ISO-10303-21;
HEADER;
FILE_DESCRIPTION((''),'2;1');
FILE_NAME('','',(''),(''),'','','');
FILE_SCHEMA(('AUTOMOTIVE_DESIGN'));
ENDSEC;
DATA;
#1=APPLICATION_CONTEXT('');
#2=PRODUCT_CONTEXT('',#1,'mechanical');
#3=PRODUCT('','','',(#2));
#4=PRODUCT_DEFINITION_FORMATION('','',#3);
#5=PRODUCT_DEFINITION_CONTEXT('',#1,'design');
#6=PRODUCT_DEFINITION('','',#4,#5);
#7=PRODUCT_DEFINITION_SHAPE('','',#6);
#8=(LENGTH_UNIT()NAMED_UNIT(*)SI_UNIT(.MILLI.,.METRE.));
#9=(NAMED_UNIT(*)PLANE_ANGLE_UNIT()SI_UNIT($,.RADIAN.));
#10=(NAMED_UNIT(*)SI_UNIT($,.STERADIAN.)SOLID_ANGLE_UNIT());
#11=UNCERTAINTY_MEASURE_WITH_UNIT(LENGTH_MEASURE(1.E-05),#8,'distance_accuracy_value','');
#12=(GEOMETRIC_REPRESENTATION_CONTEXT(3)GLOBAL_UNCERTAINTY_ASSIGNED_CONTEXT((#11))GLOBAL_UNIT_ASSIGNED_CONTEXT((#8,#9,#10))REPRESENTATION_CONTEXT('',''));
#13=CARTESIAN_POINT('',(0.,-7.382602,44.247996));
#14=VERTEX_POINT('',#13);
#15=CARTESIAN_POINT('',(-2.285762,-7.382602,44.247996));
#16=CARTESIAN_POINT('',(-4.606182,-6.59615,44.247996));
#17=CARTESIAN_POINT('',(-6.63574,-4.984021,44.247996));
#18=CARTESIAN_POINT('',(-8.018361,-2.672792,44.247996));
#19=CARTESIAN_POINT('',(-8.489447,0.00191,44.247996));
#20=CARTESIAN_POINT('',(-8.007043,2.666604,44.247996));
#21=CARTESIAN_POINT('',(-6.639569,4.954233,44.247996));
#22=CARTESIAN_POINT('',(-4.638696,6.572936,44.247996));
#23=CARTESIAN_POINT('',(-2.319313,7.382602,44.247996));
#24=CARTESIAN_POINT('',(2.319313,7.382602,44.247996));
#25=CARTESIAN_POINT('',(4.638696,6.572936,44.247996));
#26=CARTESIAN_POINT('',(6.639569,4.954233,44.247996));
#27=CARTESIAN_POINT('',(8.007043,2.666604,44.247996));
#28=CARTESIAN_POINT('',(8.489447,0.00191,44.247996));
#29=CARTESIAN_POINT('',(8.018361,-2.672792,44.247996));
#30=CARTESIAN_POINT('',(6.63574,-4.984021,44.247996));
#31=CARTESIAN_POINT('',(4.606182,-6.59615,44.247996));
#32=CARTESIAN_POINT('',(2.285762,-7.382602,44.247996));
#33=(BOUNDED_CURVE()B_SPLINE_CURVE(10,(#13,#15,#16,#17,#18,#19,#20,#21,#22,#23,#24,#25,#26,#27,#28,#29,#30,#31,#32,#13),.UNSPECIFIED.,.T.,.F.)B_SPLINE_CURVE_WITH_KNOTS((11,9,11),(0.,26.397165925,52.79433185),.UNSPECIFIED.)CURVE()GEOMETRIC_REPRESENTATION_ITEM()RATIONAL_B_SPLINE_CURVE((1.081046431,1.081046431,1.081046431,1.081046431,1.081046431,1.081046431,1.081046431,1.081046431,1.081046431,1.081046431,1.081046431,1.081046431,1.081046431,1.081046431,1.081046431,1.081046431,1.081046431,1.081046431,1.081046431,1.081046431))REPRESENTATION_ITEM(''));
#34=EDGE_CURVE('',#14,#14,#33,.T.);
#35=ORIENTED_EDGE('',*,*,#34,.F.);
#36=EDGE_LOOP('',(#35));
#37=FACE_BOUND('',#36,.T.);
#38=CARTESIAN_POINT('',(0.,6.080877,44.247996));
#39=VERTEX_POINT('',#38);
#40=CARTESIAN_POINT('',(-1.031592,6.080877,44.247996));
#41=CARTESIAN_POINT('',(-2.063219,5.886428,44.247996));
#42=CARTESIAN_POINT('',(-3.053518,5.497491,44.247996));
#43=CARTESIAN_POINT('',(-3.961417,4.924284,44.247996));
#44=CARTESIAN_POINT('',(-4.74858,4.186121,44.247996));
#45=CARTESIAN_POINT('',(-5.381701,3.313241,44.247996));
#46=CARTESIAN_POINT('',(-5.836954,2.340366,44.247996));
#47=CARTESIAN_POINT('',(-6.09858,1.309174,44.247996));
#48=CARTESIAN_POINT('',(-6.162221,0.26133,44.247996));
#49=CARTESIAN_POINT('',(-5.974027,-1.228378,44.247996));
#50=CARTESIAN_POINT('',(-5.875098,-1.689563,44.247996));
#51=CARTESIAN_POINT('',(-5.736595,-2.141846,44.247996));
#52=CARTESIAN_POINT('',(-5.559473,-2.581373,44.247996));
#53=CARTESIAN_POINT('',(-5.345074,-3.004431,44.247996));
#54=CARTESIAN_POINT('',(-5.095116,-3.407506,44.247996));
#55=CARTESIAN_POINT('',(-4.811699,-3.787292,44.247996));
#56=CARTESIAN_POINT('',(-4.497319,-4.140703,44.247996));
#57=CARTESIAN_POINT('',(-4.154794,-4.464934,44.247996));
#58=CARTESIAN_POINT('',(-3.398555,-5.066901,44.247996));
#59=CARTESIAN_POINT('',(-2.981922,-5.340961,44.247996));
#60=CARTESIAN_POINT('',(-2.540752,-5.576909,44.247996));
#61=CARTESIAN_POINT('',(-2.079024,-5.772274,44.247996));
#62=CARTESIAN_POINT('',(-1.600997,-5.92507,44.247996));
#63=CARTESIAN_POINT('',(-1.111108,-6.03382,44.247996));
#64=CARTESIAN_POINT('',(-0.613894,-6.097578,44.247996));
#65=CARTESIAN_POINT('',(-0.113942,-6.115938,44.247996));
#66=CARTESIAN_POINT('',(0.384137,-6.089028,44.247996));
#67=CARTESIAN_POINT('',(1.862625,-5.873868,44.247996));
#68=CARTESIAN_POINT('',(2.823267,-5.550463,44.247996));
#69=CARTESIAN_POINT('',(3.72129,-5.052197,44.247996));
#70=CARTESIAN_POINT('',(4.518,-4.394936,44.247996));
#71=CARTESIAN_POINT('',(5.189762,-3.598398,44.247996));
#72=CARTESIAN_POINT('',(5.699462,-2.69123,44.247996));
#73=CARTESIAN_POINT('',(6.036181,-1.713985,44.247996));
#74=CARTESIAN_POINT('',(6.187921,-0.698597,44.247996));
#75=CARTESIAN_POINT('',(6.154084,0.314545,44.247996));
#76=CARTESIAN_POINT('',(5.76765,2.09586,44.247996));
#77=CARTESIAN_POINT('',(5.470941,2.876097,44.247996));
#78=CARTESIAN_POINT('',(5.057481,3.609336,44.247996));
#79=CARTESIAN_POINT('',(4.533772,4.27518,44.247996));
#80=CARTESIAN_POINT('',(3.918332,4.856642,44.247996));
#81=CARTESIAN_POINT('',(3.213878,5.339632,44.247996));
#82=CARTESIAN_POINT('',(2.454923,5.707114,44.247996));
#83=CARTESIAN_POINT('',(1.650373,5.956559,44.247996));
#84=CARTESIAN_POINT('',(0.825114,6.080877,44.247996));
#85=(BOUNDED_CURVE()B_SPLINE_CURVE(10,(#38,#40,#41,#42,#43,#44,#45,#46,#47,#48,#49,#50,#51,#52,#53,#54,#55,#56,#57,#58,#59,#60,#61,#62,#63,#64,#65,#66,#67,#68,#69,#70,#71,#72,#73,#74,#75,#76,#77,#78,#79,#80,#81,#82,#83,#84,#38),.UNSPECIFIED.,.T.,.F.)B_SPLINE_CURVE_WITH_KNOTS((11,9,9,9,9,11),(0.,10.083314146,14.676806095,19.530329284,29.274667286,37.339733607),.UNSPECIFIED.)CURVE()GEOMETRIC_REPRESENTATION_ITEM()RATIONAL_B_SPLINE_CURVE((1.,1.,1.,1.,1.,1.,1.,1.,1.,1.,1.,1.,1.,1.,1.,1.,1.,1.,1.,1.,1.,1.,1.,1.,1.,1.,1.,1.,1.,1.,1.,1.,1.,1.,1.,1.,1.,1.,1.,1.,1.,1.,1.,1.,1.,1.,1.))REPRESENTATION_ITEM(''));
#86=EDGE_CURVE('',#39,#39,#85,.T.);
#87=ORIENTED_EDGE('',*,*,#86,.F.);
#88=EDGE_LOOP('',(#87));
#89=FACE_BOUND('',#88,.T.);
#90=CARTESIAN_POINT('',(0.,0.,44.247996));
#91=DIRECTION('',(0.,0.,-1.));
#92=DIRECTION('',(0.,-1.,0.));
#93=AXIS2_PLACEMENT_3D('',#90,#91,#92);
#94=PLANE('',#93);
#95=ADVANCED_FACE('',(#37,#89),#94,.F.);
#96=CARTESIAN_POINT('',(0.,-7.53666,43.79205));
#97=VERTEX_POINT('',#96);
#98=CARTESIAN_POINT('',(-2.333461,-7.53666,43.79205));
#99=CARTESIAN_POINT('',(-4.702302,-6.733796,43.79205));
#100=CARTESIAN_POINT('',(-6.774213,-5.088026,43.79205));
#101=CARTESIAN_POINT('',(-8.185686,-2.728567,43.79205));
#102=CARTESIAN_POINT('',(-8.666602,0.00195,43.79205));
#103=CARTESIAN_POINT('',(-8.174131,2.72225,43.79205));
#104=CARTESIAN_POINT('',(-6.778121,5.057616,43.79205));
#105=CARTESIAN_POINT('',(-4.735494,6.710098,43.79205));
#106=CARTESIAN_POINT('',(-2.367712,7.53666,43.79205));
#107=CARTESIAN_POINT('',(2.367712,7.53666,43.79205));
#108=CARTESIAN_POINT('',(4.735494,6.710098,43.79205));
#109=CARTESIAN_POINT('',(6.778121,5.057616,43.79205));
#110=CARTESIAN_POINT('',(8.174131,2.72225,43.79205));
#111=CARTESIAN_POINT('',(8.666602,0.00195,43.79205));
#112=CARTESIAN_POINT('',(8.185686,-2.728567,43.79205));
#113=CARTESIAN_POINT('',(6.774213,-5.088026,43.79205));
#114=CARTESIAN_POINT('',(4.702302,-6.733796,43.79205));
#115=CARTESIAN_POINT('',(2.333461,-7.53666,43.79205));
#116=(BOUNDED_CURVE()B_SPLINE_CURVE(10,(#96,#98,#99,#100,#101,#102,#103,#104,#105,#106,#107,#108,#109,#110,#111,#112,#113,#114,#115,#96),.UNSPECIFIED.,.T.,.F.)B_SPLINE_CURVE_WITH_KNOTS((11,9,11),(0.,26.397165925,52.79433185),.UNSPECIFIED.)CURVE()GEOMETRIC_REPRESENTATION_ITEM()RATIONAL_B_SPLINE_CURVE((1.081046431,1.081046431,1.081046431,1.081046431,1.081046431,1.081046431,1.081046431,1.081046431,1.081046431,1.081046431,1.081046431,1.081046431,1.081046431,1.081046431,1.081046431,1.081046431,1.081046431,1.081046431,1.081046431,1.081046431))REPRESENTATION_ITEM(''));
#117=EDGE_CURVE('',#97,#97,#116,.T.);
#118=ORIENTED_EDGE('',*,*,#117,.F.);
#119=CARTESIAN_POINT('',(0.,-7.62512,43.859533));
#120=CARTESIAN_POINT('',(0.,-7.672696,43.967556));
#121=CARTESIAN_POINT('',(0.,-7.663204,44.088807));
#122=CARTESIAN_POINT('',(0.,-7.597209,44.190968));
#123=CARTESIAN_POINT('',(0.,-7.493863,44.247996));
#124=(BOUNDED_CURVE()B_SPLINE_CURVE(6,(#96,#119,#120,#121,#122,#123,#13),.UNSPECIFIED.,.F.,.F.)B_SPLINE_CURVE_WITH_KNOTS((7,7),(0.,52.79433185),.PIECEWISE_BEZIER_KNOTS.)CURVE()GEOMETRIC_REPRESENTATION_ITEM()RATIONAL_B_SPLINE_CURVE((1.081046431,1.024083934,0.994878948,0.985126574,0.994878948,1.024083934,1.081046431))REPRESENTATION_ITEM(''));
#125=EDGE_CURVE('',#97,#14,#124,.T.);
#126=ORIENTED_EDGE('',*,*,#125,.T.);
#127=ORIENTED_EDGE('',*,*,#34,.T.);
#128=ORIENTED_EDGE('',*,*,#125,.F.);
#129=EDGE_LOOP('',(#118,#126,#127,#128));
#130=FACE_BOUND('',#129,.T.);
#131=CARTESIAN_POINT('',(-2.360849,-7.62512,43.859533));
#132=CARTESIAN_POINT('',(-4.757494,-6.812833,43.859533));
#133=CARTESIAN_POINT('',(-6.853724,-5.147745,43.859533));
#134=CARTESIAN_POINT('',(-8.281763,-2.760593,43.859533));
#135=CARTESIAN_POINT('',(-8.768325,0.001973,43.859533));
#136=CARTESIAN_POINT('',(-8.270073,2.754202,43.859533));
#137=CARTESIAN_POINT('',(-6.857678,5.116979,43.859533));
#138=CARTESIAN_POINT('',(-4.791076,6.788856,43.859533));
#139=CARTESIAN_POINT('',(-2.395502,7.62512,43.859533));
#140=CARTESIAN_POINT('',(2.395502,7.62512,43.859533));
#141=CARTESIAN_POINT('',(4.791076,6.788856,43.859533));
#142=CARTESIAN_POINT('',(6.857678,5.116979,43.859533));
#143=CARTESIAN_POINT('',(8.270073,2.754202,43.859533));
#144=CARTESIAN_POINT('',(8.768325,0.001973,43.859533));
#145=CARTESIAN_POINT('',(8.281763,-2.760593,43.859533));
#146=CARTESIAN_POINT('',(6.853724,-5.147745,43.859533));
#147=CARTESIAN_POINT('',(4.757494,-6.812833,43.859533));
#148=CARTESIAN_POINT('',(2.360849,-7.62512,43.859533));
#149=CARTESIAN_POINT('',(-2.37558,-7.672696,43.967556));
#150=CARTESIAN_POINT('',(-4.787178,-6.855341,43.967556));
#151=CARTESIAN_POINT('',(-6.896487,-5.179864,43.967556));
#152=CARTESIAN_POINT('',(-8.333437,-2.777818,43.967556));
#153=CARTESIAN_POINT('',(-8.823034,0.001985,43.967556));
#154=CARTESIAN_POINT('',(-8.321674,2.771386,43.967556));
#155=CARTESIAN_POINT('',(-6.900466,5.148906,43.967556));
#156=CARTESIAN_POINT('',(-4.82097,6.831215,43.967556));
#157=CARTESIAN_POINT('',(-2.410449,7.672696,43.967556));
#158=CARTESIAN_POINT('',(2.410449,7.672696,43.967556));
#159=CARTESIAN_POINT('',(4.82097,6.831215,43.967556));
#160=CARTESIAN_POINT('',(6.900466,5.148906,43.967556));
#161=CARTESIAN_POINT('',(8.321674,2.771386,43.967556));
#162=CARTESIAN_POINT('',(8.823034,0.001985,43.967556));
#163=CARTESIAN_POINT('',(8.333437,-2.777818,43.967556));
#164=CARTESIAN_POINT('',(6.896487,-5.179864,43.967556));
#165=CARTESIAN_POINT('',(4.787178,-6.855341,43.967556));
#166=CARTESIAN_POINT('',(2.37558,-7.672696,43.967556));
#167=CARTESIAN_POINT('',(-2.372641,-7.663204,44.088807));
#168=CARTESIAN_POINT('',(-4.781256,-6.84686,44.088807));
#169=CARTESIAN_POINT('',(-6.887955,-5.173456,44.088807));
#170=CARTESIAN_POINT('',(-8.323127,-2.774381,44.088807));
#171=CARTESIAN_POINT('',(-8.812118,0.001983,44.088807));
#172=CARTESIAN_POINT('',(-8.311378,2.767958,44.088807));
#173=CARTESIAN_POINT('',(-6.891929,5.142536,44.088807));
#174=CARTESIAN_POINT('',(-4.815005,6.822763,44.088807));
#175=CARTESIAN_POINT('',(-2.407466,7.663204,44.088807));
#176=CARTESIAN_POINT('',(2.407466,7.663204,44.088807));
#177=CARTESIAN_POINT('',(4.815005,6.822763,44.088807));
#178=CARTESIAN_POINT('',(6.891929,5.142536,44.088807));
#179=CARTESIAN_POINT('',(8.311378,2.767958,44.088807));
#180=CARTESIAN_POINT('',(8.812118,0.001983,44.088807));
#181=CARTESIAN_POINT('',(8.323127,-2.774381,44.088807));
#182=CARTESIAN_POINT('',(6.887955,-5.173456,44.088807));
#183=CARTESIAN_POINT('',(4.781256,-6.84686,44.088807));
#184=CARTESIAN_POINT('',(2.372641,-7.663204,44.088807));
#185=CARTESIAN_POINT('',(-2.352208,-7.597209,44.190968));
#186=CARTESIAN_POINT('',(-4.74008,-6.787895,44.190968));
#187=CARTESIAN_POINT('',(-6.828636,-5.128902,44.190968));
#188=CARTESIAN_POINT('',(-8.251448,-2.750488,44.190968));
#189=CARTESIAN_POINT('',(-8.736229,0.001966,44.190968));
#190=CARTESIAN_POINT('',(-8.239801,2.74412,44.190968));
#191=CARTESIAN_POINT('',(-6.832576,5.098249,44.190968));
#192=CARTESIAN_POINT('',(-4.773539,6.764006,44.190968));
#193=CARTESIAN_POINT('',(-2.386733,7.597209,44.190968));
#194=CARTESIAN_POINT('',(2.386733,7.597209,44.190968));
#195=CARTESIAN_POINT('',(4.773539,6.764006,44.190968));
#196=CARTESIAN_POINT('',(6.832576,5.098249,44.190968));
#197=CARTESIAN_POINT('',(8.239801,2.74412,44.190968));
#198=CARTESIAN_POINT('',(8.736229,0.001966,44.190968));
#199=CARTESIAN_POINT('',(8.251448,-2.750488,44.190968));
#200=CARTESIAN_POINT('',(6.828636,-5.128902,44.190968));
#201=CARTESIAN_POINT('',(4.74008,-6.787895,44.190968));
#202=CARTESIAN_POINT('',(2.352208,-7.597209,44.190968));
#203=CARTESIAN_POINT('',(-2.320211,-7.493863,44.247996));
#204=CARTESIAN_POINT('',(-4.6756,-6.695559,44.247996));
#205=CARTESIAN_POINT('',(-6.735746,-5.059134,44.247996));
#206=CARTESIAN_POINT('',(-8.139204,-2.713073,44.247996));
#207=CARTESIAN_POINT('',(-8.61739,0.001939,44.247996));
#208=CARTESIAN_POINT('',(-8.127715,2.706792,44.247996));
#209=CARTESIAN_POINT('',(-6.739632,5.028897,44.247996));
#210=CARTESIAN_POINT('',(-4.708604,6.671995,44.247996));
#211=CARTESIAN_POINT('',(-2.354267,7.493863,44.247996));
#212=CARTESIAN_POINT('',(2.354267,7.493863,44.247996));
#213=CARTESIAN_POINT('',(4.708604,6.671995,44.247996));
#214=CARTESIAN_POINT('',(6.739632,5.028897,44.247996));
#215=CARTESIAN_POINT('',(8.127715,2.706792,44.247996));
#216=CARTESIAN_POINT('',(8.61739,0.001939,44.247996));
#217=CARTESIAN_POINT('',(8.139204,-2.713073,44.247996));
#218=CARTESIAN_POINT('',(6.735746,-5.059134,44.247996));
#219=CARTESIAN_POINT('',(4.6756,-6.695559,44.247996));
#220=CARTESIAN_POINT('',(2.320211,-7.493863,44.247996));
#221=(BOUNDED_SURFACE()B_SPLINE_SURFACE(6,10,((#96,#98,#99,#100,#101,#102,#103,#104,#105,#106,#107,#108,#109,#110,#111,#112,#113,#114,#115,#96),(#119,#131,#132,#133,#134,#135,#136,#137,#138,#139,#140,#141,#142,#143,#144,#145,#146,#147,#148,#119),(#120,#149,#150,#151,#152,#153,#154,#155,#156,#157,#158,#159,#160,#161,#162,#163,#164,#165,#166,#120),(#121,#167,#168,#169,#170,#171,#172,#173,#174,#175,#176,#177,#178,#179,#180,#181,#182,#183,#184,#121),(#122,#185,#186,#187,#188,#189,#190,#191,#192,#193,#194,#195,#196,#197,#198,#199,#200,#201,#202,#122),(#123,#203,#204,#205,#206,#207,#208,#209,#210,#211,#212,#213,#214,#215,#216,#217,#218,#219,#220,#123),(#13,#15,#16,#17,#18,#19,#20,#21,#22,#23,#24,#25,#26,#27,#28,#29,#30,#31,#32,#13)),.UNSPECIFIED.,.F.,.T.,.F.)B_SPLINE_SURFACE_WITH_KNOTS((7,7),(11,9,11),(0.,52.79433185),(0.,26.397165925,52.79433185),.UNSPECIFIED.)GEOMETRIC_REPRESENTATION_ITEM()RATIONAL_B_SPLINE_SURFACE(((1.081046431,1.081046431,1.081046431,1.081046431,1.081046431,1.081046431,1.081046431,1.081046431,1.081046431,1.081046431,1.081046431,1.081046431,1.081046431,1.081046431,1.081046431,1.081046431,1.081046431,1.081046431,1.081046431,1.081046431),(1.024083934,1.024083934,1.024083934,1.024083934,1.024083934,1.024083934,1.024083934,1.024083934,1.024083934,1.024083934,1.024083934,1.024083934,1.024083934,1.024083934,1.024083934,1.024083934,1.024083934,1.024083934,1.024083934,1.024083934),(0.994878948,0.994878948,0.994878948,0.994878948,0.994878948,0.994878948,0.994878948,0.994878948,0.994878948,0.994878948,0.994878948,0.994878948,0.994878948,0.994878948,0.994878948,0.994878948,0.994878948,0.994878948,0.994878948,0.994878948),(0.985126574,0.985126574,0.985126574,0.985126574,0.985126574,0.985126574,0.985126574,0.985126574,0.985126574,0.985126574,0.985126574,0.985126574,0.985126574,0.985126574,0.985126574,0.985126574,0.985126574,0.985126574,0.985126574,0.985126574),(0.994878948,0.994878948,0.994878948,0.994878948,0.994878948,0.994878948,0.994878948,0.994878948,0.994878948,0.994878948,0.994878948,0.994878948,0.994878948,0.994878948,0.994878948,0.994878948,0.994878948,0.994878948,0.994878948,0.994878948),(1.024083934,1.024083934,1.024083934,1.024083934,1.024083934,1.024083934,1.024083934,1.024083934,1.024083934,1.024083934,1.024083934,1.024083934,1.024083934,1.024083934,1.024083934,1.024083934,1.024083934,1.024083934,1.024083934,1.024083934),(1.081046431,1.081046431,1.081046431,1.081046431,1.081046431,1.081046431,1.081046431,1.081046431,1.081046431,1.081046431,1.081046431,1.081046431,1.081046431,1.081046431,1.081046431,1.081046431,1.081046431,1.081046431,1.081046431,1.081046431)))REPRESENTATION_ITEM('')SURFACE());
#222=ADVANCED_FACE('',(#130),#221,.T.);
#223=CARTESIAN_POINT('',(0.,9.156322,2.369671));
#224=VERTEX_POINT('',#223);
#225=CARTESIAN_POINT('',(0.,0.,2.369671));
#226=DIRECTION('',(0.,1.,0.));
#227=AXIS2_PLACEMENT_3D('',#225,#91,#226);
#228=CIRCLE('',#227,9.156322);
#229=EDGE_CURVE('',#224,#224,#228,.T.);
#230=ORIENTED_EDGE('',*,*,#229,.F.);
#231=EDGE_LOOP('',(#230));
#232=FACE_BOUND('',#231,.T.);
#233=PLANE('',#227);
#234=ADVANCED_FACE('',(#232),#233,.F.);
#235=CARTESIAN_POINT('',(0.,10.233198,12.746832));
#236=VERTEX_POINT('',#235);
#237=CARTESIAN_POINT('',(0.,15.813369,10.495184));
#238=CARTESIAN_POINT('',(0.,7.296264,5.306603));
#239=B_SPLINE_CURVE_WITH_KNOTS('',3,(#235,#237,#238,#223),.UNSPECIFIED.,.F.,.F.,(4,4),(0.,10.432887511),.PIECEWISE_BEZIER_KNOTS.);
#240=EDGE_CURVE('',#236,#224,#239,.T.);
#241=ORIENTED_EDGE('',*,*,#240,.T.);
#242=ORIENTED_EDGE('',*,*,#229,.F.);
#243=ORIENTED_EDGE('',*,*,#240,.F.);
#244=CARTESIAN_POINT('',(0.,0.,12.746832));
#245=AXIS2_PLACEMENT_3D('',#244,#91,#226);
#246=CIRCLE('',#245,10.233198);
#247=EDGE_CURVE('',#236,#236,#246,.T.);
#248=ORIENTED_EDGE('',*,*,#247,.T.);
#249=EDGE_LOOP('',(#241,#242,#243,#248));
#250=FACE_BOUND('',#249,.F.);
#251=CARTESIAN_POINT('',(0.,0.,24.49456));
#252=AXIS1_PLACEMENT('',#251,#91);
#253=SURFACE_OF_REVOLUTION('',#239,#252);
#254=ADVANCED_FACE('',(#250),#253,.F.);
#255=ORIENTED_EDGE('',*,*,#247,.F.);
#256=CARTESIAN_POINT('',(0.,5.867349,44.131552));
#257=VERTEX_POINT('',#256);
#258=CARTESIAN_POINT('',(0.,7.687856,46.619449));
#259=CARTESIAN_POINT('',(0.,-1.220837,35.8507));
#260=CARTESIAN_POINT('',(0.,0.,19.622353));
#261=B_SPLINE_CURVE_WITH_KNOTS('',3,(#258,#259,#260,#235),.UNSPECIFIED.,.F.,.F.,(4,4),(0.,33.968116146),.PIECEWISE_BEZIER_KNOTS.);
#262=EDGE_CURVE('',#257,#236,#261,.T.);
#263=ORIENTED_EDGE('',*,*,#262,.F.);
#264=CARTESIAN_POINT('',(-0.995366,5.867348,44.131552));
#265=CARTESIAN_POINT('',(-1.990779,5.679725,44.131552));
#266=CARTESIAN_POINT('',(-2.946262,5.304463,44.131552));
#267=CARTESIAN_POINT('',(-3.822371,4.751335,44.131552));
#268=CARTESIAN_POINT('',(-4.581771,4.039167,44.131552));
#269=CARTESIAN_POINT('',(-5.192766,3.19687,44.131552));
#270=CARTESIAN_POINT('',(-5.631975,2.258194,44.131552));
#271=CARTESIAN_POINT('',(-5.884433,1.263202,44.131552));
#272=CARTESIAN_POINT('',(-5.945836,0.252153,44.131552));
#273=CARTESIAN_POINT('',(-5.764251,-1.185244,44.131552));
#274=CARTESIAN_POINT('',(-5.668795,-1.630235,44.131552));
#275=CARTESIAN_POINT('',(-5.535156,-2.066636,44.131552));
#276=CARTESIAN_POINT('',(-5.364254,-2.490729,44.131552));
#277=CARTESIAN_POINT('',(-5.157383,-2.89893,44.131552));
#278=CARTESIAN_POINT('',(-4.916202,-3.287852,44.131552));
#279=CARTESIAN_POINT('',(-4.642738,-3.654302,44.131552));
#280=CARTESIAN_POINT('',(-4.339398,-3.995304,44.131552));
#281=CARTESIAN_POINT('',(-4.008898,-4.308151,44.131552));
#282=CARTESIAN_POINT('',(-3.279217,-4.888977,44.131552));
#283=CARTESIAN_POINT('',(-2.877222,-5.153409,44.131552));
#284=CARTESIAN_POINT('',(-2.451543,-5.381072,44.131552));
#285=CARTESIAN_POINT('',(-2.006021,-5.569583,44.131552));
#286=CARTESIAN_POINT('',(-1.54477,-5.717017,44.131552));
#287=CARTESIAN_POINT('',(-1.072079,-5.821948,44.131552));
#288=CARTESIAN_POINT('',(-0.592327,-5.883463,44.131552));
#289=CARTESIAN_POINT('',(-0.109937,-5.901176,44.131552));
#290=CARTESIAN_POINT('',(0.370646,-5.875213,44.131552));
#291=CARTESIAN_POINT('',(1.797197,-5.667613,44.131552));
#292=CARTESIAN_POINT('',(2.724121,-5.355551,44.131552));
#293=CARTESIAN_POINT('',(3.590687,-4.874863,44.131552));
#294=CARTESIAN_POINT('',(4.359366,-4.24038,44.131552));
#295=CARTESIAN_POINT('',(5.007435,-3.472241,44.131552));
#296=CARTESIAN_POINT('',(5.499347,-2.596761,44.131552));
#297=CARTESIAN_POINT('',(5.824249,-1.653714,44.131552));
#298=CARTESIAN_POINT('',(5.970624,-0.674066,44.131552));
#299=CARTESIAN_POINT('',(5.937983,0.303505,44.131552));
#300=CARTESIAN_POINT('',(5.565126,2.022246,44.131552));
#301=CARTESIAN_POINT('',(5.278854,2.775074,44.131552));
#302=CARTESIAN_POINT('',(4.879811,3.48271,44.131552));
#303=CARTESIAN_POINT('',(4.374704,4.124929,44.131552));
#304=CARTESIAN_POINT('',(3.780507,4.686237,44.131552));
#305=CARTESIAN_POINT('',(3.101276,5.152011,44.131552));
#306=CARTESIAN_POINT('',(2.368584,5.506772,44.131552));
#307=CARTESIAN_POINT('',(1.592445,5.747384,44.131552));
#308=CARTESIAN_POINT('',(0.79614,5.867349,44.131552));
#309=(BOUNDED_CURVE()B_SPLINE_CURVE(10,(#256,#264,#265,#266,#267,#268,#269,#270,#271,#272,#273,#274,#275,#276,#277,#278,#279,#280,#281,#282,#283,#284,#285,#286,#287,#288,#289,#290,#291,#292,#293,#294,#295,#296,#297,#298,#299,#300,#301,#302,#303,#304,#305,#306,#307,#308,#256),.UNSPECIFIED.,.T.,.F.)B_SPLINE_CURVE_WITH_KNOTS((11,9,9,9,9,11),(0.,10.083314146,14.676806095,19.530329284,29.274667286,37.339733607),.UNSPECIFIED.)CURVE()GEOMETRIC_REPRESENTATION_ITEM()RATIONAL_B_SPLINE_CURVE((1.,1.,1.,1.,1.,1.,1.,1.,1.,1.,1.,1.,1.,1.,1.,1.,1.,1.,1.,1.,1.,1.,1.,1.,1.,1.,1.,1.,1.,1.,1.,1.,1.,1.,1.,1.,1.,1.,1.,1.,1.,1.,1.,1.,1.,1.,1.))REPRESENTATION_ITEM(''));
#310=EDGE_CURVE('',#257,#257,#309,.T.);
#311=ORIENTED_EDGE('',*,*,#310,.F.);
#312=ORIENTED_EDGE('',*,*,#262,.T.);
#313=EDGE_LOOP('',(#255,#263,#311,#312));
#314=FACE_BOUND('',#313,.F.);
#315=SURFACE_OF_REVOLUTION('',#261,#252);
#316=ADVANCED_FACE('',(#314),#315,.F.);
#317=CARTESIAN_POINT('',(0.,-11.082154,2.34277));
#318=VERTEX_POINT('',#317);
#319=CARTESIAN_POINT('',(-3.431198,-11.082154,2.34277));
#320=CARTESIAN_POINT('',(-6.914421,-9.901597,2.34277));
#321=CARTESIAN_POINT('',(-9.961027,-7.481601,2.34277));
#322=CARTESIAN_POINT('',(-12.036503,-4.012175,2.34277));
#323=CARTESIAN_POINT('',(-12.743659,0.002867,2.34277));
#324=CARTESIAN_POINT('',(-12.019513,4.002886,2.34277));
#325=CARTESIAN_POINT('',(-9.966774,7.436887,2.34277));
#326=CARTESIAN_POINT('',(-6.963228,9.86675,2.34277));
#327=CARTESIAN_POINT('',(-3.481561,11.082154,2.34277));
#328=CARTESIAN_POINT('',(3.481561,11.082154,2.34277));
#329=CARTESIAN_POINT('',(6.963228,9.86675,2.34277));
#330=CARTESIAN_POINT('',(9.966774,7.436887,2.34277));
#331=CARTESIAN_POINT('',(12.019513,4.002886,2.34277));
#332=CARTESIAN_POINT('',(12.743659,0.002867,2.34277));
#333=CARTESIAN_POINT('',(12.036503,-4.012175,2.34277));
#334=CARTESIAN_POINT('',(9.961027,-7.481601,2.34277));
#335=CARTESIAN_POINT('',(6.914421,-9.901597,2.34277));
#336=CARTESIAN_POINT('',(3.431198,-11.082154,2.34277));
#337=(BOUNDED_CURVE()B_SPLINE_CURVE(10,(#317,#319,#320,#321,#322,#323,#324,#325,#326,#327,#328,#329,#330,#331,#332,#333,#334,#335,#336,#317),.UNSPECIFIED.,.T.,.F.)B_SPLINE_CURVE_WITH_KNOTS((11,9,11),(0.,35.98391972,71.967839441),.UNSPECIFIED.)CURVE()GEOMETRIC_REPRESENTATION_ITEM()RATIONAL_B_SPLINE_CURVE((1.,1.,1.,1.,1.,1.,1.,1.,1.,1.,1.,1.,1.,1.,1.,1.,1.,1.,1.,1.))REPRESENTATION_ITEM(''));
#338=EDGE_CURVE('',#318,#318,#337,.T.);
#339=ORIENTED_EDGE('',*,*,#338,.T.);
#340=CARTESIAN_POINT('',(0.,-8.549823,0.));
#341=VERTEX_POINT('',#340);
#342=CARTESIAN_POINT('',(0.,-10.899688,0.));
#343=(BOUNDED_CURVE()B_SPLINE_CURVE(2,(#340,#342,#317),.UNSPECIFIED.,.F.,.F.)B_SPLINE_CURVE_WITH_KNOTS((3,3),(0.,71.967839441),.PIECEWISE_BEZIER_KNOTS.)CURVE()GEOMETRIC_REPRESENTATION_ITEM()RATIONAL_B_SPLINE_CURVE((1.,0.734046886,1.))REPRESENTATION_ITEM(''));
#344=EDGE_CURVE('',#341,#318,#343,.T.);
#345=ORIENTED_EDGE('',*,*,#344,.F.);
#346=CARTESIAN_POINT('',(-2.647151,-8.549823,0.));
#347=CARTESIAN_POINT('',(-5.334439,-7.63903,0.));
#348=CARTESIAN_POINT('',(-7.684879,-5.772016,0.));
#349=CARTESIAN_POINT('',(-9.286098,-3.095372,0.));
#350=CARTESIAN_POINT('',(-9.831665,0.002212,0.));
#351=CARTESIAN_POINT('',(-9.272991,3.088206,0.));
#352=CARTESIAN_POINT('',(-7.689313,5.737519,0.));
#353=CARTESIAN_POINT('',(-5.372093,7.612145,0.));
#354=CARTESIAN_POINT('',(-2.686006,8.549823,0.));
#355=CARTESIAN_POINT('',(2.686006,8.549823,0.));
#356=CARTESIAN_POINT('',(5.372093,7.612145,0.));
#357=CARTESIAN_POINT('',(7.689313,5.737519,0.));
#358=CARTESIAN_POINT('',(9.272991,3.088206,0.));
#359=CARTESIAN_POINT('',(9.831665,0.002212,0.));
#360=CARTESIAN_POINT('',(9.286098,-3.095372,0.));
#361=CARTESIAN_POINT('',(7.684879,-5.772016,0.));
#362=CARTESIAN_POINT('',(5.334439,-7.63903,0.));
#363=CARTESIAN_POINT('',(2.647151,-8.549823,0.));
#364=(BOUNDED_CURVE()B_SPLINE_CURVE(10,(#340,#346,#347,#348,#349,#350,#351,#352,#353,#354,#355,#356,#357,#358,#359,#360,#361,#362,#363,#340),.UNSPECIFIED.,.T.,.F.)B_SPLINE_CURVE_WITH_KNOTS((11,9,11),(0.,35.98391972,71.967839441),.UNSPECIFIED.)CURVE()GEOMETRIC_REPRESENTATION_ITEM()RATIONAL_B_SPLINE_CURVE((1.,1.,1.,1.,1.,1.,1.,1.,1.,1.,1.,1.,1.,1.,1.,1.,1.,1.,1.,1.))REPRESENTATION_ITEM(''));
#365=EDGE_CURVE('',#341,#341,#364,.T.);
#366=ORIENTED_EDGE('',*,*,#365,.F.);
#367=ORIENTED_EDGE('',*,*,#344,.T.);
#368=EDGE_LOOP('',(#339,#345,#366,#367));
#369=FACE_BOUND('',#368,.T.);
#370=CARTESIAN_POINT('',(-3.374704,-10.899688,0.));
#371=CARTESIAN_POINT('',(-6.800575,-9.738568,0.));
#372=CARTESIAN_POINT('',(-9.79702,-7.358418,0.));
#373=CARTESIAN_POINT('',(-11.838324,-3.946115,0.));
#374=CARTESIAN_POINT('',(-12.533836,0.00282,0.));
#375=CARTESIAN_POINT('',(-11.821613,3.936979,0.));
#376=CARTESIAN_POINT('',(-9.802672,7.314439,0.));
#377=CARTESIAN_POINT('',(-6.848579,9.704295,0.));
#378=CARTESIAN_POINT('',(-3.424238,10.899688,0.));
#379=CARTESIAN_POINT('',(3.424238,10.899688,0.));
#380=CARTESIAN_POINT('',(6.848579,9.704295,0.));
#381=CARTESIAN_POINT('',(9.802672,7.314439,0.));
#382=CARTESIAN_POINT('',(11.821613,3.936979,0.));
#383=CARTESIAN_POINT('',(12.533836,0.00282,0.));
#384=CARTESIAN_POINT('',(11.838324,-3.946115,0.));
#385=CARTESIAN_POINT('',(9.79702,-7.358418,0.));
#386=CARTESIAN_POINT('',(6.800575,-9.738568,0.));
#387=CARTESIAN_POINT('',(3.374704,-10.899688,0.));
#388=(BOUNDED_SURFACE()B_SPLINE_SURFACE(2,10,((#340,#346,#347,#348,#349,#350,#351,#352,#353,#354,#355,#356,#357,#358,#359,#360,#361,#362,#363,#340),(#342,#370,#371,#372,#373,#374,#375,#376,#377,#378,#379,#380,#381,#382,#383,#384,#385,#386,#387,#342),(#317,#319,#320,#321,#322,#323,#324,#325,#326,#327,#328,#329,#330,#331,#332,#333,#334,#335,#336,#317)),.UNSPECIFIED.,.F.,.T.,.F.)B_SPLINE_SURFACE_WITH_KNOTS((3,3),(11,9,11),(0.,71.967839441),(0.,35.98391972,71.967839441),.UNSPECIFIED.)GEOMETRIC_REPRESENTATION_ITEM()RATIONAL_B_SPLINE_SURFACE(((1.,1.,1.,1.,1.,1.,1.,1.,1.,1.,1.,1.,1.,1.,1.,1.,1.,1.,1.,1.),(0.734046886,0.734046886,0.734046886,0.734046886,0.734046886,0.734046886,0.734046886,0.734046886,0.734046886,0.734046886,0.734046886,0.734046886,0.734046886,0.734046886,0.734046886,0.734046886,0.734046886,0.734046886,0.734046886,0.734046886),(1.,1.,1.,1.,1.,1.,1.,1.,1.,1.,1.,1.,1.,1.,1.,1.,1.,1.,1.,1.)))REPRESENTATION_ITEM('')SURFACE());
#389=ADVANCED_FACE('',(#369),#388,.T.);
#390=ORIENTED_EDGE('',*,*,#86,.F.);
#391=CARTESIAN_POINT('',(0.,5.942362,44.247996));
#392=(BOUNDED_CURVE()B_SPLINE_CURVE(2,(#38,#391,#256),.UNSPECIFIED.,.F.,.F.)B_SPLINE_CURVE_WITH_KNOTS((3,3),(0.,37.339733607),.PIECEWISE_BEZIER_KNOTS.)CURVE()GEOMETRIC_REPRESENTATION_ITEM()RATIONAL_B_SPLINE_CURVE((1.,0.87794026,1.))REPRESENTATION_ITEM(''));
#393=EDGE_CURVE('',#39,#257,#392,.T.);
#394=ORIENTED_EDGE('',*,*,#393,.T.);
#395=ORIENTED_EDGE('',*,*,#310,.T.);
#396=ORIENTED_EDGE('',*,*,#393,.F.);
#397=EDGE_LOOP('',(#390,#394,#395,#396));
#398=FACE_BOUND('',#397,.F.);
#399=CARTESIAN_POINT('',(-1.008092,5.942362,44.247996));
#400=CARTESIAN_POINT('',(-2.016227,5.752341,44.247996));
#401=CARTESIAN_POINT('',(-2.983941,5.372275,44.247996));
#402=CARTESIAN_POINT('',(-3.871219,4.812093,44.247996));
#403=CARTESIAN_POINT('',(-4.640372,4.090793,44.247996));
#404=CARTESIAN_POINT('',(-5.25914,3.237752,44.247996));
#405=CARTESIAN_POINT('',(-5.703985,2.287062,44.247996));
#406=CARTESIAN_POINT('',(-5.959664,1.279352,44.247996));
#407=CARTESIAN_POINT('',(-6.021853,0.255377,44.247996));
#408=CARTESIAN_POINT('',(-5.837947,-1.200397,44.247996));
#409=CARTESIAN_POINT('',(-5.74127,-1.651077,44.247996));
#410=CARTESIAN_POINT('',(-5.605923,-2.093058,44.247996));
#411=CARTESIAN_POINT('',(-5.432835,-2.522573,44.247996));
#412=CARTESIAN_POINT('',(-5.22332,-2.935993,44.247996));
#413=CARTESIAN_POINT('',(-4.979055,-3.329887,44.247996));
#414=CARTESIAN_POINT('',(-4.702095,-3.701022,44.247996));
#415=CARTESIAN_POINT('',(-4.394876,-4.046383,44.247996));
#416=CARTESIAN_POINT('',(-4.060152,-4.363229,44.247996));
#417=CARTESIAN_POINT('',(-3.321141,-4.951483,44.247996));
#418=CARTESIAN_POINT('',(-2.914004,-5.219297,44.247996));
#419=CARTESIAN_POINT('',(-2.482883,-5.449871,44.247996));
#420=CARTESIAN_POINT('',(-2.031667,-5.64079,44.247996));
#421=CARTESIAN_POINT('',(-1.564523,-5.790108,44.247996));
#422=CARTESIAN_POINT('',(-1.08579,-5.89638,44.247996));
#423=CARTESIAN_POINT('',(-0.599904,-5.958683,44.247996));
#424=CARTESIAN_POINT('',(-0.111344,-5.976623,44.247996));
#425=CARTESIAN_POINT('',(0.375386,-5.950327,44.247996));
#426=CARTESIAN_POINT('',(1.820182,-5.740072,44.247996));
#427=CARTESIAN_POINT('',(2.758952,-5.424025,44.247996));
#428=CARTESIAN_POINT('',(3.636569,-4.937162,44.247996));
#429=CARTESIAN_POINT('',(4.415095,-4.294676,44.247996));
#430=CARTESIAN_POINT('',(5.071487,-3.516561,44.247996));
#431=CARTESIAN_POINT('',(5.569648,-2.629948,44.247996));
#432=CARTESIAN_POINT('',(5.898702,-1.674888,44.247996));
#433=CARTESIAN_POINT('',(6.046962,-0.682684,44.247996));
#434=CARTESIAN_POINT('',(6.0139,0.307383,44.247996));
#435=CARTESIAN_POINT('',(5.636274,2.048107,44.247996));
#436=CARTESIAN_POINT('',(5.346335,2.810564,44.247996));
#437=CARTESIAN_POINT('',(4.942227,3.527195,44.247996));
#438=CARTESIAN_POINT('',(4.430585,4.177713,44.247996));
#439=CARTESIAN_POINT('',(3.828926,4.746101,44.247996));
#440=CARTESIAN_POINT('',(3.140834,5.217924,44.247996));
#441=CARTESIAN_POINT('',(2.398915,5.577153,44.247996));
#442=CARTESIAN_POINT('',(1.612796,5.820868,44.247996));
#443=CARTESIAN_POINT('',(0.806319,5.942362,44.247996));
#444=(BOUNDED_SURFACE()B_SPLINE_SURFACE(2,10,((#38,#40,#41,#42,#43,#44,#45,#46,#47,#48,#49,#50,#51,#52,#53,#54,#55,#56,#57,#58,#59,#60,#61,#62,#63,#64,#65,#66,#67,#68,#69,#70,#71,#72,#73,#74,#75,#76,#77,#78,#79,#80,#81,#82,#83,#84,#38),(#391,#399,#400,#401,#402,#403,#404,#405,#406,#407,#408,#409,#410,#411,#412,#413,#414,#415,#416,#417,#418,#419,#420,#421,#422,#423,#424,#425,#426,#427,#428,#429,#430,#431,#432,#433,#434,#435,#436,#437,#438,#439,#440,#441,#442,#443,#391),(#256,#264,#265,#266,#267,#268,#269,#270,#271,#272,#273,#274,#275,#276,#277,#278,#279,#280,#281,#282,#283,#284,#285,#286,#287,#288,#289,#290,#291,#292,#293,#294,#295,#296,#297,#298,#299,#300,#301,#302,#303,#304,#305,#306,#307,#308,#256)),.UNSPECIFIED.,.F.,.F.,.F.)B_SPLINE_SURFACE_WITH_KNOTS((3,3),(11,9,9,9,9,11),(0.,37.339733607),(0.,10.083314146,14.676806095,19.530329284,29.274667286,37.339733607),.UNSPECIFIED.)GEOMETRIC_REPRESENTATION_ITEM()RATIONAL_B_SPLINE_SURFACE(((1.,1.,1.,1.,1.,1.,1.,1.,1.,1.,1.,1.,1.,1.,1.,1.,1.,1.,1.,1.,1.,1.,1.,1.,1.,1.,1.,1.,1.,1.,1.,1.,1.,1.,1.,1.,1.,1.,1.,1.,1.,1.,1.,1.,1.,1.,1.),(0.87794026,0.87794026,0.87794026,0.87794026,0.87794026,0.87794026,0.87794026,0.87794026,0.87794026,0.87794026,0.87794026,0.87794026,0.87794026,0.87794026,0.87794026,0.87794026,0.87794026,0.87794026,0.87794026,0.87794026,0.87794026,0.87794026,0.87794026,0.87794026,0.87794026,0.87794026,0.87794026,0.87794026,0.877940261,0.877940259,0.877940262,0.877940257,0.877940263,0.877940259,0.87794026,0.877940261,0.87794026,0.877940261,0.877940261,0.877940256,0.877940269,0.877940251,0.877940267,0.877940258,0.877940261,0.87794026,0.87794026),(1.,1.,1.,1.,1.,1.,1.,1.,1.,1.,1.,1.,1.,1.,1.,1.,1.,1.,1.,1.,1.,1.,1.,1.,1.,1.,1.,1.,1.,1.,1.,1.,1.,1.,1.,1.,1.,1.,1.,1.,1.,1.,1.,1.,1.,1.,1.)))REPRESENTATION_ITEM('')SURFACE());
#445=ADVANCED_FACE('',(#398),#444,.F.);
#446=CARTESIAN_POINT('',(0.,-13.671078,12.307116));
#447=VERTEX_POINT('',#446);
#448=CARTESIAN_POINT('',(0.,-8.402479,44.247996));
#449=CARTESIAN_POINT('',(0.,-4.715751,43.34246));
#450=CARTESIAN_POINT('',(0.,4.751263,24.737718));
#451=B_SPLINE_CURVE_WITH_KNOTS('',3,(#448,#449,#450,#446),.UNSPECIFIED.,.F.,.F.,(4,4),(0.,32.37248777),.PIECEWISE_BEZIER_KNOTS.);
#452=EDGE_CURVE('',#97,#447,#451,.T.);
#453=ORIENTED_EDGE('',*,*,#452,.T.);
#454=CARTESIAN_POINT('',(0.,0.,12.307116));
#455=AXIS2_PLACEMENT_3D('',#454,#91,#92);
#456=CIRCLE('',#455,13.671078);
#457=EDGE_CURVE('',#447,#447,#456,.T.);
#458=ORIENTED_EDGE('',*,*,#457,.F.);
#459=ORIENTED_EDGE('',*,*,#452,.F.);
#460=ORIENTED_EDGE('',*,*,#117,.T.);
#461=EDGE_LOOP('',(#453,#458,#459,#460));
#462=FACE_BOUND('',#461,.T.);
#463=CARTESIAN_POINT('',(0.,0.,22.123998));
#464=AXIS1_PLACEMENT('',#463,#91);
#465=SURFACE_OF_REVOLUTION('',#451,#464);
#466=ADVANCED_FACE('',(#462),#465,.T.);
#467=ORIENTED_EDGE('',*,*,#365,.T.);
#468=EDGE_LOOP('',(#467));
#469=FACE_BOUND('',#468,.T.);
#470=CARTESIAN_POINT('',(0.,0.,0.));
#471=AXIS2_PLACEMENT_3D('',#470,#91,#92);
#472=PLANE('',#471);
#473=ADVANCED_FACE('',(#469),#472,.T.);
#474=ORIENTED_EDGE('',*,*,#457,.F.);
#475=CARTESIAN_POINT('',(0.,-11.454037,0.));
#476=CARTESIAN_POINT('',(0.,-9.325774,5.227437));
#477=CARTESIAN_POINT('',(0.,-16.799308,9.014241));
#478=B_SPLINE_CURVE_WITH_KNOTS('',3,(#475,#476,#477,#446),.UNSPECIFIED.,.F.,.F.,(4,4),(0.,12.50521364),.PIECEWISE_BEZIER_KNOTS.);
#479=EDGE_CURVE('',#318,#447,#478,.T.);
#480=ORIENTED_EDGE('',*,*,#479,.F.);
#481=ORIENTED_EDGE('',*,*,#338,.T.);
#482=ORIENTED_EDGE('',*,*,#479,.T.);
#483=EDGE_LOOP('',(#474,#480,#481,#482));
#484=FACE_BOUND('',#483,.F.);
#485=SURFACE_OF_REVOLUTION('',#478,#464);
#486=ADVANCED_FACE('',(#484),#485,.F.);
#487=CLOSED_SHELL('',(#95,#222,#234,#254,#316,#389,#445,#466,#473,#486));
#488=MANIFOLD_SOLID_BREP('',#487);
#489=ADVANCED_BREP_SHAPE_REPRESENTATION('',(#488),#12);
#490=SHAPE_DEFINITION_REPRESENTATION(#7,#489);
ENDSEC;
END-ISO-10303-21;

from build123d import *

# Parameters (mm, degrees)
F2_R = 2.54
F5_R = 0.254


with BuildPart() as f1:
    # F0 (on Right) → F1 (revolve)
    with BuildSketch(Plane.YZ):
        with BuildLine():
            Line((-11.4540373906, 0), (0, 0))
            Line((0, 0), (0, 44.247996062))
            Line((0, 44.247996062), (-8.4024788812, 44.247996062))
            add(Edge.make_bspline(
                [(-8.4024788812, 44.247996062), (-4.7157509252, 43.3424599469), (4.7512631863, 24.7377175838), (-13.6710777879, 12.3071158305)],
                knots=[0, 0, 0, 0, 32.3724877698, 32.3724877698, 32.3724877698, 32.3724877698], degree=3))
            add(Edge.make_bspline(
                [(-11.4540373906, 0), (-9.3257743865, 5.2274372429), (-16.7993083596, 9.0142413974), (-13.6710777879, 12.3071158305)],
                knots=[0, 0, 0, 0, 12.5052136402, 12.5052136402, 12.5052136402, 12.5052136402], degree=3))
        make_face()
    revolve(axis=Axis((0, 0, 22.123998031), (0, 0, -1)))

    # F2
    f2_edges = [f1.edges().sort_by_distance(p)[0] for p in [
        (0, 11.454037, 0),
    ]]
    fillet(f2_edges, radius=F2_R)

    # F3 (on Right) → F4 (revolve, cut)
    with BuildSketch(Plane.YZ):
        with BuildLine():
            add(Edge.make_bspline(
                [(7.6878559776, 46.6194488108), (-1.2208370026, 35.850699991), (0, 19.6223533806), (10.2331982926, 12.7468323335)],
                knots=[0, 0, 0, 0, 33.9681161462, 33.9681161462, 33.9681161462, 33.9681161462], degree=3))
            Line((7.6878559776, 46.6194488108), (0, 46.6194488108))
            Line((0, 46.6194488108), (0, 2.3696708959))
            Line((0, 2.3696708959), (9.1563221067, 2.3696708959))
            add(Edge.make_bspline(
                [(10.2331982926, 12.7468323335), (15.8133693039, 10.4951839894), (7.2962641716, 5.306603387), (9.1563221067, 2.3696708959)],
                knots=[0, 0, 0, 0, 10.4328875113, 10.4328875113, 10.4328875113, 10.4328875113], degree=3))
        make_face()
    revolve(axis=Axis((0, 0, 24.4945598533), (0, 0, -1)), mode=Mode.SUBTRACT)

    # F5
    f5_edges = [f1.edges().sort_by_distance(p)[0] for p in [
        (0, 8.402479, 44.247996),
        (0, -5.942803, 44.247996),
    ]]
    fillet(f5_edges, radius=F5_R)


solid = f1.part
